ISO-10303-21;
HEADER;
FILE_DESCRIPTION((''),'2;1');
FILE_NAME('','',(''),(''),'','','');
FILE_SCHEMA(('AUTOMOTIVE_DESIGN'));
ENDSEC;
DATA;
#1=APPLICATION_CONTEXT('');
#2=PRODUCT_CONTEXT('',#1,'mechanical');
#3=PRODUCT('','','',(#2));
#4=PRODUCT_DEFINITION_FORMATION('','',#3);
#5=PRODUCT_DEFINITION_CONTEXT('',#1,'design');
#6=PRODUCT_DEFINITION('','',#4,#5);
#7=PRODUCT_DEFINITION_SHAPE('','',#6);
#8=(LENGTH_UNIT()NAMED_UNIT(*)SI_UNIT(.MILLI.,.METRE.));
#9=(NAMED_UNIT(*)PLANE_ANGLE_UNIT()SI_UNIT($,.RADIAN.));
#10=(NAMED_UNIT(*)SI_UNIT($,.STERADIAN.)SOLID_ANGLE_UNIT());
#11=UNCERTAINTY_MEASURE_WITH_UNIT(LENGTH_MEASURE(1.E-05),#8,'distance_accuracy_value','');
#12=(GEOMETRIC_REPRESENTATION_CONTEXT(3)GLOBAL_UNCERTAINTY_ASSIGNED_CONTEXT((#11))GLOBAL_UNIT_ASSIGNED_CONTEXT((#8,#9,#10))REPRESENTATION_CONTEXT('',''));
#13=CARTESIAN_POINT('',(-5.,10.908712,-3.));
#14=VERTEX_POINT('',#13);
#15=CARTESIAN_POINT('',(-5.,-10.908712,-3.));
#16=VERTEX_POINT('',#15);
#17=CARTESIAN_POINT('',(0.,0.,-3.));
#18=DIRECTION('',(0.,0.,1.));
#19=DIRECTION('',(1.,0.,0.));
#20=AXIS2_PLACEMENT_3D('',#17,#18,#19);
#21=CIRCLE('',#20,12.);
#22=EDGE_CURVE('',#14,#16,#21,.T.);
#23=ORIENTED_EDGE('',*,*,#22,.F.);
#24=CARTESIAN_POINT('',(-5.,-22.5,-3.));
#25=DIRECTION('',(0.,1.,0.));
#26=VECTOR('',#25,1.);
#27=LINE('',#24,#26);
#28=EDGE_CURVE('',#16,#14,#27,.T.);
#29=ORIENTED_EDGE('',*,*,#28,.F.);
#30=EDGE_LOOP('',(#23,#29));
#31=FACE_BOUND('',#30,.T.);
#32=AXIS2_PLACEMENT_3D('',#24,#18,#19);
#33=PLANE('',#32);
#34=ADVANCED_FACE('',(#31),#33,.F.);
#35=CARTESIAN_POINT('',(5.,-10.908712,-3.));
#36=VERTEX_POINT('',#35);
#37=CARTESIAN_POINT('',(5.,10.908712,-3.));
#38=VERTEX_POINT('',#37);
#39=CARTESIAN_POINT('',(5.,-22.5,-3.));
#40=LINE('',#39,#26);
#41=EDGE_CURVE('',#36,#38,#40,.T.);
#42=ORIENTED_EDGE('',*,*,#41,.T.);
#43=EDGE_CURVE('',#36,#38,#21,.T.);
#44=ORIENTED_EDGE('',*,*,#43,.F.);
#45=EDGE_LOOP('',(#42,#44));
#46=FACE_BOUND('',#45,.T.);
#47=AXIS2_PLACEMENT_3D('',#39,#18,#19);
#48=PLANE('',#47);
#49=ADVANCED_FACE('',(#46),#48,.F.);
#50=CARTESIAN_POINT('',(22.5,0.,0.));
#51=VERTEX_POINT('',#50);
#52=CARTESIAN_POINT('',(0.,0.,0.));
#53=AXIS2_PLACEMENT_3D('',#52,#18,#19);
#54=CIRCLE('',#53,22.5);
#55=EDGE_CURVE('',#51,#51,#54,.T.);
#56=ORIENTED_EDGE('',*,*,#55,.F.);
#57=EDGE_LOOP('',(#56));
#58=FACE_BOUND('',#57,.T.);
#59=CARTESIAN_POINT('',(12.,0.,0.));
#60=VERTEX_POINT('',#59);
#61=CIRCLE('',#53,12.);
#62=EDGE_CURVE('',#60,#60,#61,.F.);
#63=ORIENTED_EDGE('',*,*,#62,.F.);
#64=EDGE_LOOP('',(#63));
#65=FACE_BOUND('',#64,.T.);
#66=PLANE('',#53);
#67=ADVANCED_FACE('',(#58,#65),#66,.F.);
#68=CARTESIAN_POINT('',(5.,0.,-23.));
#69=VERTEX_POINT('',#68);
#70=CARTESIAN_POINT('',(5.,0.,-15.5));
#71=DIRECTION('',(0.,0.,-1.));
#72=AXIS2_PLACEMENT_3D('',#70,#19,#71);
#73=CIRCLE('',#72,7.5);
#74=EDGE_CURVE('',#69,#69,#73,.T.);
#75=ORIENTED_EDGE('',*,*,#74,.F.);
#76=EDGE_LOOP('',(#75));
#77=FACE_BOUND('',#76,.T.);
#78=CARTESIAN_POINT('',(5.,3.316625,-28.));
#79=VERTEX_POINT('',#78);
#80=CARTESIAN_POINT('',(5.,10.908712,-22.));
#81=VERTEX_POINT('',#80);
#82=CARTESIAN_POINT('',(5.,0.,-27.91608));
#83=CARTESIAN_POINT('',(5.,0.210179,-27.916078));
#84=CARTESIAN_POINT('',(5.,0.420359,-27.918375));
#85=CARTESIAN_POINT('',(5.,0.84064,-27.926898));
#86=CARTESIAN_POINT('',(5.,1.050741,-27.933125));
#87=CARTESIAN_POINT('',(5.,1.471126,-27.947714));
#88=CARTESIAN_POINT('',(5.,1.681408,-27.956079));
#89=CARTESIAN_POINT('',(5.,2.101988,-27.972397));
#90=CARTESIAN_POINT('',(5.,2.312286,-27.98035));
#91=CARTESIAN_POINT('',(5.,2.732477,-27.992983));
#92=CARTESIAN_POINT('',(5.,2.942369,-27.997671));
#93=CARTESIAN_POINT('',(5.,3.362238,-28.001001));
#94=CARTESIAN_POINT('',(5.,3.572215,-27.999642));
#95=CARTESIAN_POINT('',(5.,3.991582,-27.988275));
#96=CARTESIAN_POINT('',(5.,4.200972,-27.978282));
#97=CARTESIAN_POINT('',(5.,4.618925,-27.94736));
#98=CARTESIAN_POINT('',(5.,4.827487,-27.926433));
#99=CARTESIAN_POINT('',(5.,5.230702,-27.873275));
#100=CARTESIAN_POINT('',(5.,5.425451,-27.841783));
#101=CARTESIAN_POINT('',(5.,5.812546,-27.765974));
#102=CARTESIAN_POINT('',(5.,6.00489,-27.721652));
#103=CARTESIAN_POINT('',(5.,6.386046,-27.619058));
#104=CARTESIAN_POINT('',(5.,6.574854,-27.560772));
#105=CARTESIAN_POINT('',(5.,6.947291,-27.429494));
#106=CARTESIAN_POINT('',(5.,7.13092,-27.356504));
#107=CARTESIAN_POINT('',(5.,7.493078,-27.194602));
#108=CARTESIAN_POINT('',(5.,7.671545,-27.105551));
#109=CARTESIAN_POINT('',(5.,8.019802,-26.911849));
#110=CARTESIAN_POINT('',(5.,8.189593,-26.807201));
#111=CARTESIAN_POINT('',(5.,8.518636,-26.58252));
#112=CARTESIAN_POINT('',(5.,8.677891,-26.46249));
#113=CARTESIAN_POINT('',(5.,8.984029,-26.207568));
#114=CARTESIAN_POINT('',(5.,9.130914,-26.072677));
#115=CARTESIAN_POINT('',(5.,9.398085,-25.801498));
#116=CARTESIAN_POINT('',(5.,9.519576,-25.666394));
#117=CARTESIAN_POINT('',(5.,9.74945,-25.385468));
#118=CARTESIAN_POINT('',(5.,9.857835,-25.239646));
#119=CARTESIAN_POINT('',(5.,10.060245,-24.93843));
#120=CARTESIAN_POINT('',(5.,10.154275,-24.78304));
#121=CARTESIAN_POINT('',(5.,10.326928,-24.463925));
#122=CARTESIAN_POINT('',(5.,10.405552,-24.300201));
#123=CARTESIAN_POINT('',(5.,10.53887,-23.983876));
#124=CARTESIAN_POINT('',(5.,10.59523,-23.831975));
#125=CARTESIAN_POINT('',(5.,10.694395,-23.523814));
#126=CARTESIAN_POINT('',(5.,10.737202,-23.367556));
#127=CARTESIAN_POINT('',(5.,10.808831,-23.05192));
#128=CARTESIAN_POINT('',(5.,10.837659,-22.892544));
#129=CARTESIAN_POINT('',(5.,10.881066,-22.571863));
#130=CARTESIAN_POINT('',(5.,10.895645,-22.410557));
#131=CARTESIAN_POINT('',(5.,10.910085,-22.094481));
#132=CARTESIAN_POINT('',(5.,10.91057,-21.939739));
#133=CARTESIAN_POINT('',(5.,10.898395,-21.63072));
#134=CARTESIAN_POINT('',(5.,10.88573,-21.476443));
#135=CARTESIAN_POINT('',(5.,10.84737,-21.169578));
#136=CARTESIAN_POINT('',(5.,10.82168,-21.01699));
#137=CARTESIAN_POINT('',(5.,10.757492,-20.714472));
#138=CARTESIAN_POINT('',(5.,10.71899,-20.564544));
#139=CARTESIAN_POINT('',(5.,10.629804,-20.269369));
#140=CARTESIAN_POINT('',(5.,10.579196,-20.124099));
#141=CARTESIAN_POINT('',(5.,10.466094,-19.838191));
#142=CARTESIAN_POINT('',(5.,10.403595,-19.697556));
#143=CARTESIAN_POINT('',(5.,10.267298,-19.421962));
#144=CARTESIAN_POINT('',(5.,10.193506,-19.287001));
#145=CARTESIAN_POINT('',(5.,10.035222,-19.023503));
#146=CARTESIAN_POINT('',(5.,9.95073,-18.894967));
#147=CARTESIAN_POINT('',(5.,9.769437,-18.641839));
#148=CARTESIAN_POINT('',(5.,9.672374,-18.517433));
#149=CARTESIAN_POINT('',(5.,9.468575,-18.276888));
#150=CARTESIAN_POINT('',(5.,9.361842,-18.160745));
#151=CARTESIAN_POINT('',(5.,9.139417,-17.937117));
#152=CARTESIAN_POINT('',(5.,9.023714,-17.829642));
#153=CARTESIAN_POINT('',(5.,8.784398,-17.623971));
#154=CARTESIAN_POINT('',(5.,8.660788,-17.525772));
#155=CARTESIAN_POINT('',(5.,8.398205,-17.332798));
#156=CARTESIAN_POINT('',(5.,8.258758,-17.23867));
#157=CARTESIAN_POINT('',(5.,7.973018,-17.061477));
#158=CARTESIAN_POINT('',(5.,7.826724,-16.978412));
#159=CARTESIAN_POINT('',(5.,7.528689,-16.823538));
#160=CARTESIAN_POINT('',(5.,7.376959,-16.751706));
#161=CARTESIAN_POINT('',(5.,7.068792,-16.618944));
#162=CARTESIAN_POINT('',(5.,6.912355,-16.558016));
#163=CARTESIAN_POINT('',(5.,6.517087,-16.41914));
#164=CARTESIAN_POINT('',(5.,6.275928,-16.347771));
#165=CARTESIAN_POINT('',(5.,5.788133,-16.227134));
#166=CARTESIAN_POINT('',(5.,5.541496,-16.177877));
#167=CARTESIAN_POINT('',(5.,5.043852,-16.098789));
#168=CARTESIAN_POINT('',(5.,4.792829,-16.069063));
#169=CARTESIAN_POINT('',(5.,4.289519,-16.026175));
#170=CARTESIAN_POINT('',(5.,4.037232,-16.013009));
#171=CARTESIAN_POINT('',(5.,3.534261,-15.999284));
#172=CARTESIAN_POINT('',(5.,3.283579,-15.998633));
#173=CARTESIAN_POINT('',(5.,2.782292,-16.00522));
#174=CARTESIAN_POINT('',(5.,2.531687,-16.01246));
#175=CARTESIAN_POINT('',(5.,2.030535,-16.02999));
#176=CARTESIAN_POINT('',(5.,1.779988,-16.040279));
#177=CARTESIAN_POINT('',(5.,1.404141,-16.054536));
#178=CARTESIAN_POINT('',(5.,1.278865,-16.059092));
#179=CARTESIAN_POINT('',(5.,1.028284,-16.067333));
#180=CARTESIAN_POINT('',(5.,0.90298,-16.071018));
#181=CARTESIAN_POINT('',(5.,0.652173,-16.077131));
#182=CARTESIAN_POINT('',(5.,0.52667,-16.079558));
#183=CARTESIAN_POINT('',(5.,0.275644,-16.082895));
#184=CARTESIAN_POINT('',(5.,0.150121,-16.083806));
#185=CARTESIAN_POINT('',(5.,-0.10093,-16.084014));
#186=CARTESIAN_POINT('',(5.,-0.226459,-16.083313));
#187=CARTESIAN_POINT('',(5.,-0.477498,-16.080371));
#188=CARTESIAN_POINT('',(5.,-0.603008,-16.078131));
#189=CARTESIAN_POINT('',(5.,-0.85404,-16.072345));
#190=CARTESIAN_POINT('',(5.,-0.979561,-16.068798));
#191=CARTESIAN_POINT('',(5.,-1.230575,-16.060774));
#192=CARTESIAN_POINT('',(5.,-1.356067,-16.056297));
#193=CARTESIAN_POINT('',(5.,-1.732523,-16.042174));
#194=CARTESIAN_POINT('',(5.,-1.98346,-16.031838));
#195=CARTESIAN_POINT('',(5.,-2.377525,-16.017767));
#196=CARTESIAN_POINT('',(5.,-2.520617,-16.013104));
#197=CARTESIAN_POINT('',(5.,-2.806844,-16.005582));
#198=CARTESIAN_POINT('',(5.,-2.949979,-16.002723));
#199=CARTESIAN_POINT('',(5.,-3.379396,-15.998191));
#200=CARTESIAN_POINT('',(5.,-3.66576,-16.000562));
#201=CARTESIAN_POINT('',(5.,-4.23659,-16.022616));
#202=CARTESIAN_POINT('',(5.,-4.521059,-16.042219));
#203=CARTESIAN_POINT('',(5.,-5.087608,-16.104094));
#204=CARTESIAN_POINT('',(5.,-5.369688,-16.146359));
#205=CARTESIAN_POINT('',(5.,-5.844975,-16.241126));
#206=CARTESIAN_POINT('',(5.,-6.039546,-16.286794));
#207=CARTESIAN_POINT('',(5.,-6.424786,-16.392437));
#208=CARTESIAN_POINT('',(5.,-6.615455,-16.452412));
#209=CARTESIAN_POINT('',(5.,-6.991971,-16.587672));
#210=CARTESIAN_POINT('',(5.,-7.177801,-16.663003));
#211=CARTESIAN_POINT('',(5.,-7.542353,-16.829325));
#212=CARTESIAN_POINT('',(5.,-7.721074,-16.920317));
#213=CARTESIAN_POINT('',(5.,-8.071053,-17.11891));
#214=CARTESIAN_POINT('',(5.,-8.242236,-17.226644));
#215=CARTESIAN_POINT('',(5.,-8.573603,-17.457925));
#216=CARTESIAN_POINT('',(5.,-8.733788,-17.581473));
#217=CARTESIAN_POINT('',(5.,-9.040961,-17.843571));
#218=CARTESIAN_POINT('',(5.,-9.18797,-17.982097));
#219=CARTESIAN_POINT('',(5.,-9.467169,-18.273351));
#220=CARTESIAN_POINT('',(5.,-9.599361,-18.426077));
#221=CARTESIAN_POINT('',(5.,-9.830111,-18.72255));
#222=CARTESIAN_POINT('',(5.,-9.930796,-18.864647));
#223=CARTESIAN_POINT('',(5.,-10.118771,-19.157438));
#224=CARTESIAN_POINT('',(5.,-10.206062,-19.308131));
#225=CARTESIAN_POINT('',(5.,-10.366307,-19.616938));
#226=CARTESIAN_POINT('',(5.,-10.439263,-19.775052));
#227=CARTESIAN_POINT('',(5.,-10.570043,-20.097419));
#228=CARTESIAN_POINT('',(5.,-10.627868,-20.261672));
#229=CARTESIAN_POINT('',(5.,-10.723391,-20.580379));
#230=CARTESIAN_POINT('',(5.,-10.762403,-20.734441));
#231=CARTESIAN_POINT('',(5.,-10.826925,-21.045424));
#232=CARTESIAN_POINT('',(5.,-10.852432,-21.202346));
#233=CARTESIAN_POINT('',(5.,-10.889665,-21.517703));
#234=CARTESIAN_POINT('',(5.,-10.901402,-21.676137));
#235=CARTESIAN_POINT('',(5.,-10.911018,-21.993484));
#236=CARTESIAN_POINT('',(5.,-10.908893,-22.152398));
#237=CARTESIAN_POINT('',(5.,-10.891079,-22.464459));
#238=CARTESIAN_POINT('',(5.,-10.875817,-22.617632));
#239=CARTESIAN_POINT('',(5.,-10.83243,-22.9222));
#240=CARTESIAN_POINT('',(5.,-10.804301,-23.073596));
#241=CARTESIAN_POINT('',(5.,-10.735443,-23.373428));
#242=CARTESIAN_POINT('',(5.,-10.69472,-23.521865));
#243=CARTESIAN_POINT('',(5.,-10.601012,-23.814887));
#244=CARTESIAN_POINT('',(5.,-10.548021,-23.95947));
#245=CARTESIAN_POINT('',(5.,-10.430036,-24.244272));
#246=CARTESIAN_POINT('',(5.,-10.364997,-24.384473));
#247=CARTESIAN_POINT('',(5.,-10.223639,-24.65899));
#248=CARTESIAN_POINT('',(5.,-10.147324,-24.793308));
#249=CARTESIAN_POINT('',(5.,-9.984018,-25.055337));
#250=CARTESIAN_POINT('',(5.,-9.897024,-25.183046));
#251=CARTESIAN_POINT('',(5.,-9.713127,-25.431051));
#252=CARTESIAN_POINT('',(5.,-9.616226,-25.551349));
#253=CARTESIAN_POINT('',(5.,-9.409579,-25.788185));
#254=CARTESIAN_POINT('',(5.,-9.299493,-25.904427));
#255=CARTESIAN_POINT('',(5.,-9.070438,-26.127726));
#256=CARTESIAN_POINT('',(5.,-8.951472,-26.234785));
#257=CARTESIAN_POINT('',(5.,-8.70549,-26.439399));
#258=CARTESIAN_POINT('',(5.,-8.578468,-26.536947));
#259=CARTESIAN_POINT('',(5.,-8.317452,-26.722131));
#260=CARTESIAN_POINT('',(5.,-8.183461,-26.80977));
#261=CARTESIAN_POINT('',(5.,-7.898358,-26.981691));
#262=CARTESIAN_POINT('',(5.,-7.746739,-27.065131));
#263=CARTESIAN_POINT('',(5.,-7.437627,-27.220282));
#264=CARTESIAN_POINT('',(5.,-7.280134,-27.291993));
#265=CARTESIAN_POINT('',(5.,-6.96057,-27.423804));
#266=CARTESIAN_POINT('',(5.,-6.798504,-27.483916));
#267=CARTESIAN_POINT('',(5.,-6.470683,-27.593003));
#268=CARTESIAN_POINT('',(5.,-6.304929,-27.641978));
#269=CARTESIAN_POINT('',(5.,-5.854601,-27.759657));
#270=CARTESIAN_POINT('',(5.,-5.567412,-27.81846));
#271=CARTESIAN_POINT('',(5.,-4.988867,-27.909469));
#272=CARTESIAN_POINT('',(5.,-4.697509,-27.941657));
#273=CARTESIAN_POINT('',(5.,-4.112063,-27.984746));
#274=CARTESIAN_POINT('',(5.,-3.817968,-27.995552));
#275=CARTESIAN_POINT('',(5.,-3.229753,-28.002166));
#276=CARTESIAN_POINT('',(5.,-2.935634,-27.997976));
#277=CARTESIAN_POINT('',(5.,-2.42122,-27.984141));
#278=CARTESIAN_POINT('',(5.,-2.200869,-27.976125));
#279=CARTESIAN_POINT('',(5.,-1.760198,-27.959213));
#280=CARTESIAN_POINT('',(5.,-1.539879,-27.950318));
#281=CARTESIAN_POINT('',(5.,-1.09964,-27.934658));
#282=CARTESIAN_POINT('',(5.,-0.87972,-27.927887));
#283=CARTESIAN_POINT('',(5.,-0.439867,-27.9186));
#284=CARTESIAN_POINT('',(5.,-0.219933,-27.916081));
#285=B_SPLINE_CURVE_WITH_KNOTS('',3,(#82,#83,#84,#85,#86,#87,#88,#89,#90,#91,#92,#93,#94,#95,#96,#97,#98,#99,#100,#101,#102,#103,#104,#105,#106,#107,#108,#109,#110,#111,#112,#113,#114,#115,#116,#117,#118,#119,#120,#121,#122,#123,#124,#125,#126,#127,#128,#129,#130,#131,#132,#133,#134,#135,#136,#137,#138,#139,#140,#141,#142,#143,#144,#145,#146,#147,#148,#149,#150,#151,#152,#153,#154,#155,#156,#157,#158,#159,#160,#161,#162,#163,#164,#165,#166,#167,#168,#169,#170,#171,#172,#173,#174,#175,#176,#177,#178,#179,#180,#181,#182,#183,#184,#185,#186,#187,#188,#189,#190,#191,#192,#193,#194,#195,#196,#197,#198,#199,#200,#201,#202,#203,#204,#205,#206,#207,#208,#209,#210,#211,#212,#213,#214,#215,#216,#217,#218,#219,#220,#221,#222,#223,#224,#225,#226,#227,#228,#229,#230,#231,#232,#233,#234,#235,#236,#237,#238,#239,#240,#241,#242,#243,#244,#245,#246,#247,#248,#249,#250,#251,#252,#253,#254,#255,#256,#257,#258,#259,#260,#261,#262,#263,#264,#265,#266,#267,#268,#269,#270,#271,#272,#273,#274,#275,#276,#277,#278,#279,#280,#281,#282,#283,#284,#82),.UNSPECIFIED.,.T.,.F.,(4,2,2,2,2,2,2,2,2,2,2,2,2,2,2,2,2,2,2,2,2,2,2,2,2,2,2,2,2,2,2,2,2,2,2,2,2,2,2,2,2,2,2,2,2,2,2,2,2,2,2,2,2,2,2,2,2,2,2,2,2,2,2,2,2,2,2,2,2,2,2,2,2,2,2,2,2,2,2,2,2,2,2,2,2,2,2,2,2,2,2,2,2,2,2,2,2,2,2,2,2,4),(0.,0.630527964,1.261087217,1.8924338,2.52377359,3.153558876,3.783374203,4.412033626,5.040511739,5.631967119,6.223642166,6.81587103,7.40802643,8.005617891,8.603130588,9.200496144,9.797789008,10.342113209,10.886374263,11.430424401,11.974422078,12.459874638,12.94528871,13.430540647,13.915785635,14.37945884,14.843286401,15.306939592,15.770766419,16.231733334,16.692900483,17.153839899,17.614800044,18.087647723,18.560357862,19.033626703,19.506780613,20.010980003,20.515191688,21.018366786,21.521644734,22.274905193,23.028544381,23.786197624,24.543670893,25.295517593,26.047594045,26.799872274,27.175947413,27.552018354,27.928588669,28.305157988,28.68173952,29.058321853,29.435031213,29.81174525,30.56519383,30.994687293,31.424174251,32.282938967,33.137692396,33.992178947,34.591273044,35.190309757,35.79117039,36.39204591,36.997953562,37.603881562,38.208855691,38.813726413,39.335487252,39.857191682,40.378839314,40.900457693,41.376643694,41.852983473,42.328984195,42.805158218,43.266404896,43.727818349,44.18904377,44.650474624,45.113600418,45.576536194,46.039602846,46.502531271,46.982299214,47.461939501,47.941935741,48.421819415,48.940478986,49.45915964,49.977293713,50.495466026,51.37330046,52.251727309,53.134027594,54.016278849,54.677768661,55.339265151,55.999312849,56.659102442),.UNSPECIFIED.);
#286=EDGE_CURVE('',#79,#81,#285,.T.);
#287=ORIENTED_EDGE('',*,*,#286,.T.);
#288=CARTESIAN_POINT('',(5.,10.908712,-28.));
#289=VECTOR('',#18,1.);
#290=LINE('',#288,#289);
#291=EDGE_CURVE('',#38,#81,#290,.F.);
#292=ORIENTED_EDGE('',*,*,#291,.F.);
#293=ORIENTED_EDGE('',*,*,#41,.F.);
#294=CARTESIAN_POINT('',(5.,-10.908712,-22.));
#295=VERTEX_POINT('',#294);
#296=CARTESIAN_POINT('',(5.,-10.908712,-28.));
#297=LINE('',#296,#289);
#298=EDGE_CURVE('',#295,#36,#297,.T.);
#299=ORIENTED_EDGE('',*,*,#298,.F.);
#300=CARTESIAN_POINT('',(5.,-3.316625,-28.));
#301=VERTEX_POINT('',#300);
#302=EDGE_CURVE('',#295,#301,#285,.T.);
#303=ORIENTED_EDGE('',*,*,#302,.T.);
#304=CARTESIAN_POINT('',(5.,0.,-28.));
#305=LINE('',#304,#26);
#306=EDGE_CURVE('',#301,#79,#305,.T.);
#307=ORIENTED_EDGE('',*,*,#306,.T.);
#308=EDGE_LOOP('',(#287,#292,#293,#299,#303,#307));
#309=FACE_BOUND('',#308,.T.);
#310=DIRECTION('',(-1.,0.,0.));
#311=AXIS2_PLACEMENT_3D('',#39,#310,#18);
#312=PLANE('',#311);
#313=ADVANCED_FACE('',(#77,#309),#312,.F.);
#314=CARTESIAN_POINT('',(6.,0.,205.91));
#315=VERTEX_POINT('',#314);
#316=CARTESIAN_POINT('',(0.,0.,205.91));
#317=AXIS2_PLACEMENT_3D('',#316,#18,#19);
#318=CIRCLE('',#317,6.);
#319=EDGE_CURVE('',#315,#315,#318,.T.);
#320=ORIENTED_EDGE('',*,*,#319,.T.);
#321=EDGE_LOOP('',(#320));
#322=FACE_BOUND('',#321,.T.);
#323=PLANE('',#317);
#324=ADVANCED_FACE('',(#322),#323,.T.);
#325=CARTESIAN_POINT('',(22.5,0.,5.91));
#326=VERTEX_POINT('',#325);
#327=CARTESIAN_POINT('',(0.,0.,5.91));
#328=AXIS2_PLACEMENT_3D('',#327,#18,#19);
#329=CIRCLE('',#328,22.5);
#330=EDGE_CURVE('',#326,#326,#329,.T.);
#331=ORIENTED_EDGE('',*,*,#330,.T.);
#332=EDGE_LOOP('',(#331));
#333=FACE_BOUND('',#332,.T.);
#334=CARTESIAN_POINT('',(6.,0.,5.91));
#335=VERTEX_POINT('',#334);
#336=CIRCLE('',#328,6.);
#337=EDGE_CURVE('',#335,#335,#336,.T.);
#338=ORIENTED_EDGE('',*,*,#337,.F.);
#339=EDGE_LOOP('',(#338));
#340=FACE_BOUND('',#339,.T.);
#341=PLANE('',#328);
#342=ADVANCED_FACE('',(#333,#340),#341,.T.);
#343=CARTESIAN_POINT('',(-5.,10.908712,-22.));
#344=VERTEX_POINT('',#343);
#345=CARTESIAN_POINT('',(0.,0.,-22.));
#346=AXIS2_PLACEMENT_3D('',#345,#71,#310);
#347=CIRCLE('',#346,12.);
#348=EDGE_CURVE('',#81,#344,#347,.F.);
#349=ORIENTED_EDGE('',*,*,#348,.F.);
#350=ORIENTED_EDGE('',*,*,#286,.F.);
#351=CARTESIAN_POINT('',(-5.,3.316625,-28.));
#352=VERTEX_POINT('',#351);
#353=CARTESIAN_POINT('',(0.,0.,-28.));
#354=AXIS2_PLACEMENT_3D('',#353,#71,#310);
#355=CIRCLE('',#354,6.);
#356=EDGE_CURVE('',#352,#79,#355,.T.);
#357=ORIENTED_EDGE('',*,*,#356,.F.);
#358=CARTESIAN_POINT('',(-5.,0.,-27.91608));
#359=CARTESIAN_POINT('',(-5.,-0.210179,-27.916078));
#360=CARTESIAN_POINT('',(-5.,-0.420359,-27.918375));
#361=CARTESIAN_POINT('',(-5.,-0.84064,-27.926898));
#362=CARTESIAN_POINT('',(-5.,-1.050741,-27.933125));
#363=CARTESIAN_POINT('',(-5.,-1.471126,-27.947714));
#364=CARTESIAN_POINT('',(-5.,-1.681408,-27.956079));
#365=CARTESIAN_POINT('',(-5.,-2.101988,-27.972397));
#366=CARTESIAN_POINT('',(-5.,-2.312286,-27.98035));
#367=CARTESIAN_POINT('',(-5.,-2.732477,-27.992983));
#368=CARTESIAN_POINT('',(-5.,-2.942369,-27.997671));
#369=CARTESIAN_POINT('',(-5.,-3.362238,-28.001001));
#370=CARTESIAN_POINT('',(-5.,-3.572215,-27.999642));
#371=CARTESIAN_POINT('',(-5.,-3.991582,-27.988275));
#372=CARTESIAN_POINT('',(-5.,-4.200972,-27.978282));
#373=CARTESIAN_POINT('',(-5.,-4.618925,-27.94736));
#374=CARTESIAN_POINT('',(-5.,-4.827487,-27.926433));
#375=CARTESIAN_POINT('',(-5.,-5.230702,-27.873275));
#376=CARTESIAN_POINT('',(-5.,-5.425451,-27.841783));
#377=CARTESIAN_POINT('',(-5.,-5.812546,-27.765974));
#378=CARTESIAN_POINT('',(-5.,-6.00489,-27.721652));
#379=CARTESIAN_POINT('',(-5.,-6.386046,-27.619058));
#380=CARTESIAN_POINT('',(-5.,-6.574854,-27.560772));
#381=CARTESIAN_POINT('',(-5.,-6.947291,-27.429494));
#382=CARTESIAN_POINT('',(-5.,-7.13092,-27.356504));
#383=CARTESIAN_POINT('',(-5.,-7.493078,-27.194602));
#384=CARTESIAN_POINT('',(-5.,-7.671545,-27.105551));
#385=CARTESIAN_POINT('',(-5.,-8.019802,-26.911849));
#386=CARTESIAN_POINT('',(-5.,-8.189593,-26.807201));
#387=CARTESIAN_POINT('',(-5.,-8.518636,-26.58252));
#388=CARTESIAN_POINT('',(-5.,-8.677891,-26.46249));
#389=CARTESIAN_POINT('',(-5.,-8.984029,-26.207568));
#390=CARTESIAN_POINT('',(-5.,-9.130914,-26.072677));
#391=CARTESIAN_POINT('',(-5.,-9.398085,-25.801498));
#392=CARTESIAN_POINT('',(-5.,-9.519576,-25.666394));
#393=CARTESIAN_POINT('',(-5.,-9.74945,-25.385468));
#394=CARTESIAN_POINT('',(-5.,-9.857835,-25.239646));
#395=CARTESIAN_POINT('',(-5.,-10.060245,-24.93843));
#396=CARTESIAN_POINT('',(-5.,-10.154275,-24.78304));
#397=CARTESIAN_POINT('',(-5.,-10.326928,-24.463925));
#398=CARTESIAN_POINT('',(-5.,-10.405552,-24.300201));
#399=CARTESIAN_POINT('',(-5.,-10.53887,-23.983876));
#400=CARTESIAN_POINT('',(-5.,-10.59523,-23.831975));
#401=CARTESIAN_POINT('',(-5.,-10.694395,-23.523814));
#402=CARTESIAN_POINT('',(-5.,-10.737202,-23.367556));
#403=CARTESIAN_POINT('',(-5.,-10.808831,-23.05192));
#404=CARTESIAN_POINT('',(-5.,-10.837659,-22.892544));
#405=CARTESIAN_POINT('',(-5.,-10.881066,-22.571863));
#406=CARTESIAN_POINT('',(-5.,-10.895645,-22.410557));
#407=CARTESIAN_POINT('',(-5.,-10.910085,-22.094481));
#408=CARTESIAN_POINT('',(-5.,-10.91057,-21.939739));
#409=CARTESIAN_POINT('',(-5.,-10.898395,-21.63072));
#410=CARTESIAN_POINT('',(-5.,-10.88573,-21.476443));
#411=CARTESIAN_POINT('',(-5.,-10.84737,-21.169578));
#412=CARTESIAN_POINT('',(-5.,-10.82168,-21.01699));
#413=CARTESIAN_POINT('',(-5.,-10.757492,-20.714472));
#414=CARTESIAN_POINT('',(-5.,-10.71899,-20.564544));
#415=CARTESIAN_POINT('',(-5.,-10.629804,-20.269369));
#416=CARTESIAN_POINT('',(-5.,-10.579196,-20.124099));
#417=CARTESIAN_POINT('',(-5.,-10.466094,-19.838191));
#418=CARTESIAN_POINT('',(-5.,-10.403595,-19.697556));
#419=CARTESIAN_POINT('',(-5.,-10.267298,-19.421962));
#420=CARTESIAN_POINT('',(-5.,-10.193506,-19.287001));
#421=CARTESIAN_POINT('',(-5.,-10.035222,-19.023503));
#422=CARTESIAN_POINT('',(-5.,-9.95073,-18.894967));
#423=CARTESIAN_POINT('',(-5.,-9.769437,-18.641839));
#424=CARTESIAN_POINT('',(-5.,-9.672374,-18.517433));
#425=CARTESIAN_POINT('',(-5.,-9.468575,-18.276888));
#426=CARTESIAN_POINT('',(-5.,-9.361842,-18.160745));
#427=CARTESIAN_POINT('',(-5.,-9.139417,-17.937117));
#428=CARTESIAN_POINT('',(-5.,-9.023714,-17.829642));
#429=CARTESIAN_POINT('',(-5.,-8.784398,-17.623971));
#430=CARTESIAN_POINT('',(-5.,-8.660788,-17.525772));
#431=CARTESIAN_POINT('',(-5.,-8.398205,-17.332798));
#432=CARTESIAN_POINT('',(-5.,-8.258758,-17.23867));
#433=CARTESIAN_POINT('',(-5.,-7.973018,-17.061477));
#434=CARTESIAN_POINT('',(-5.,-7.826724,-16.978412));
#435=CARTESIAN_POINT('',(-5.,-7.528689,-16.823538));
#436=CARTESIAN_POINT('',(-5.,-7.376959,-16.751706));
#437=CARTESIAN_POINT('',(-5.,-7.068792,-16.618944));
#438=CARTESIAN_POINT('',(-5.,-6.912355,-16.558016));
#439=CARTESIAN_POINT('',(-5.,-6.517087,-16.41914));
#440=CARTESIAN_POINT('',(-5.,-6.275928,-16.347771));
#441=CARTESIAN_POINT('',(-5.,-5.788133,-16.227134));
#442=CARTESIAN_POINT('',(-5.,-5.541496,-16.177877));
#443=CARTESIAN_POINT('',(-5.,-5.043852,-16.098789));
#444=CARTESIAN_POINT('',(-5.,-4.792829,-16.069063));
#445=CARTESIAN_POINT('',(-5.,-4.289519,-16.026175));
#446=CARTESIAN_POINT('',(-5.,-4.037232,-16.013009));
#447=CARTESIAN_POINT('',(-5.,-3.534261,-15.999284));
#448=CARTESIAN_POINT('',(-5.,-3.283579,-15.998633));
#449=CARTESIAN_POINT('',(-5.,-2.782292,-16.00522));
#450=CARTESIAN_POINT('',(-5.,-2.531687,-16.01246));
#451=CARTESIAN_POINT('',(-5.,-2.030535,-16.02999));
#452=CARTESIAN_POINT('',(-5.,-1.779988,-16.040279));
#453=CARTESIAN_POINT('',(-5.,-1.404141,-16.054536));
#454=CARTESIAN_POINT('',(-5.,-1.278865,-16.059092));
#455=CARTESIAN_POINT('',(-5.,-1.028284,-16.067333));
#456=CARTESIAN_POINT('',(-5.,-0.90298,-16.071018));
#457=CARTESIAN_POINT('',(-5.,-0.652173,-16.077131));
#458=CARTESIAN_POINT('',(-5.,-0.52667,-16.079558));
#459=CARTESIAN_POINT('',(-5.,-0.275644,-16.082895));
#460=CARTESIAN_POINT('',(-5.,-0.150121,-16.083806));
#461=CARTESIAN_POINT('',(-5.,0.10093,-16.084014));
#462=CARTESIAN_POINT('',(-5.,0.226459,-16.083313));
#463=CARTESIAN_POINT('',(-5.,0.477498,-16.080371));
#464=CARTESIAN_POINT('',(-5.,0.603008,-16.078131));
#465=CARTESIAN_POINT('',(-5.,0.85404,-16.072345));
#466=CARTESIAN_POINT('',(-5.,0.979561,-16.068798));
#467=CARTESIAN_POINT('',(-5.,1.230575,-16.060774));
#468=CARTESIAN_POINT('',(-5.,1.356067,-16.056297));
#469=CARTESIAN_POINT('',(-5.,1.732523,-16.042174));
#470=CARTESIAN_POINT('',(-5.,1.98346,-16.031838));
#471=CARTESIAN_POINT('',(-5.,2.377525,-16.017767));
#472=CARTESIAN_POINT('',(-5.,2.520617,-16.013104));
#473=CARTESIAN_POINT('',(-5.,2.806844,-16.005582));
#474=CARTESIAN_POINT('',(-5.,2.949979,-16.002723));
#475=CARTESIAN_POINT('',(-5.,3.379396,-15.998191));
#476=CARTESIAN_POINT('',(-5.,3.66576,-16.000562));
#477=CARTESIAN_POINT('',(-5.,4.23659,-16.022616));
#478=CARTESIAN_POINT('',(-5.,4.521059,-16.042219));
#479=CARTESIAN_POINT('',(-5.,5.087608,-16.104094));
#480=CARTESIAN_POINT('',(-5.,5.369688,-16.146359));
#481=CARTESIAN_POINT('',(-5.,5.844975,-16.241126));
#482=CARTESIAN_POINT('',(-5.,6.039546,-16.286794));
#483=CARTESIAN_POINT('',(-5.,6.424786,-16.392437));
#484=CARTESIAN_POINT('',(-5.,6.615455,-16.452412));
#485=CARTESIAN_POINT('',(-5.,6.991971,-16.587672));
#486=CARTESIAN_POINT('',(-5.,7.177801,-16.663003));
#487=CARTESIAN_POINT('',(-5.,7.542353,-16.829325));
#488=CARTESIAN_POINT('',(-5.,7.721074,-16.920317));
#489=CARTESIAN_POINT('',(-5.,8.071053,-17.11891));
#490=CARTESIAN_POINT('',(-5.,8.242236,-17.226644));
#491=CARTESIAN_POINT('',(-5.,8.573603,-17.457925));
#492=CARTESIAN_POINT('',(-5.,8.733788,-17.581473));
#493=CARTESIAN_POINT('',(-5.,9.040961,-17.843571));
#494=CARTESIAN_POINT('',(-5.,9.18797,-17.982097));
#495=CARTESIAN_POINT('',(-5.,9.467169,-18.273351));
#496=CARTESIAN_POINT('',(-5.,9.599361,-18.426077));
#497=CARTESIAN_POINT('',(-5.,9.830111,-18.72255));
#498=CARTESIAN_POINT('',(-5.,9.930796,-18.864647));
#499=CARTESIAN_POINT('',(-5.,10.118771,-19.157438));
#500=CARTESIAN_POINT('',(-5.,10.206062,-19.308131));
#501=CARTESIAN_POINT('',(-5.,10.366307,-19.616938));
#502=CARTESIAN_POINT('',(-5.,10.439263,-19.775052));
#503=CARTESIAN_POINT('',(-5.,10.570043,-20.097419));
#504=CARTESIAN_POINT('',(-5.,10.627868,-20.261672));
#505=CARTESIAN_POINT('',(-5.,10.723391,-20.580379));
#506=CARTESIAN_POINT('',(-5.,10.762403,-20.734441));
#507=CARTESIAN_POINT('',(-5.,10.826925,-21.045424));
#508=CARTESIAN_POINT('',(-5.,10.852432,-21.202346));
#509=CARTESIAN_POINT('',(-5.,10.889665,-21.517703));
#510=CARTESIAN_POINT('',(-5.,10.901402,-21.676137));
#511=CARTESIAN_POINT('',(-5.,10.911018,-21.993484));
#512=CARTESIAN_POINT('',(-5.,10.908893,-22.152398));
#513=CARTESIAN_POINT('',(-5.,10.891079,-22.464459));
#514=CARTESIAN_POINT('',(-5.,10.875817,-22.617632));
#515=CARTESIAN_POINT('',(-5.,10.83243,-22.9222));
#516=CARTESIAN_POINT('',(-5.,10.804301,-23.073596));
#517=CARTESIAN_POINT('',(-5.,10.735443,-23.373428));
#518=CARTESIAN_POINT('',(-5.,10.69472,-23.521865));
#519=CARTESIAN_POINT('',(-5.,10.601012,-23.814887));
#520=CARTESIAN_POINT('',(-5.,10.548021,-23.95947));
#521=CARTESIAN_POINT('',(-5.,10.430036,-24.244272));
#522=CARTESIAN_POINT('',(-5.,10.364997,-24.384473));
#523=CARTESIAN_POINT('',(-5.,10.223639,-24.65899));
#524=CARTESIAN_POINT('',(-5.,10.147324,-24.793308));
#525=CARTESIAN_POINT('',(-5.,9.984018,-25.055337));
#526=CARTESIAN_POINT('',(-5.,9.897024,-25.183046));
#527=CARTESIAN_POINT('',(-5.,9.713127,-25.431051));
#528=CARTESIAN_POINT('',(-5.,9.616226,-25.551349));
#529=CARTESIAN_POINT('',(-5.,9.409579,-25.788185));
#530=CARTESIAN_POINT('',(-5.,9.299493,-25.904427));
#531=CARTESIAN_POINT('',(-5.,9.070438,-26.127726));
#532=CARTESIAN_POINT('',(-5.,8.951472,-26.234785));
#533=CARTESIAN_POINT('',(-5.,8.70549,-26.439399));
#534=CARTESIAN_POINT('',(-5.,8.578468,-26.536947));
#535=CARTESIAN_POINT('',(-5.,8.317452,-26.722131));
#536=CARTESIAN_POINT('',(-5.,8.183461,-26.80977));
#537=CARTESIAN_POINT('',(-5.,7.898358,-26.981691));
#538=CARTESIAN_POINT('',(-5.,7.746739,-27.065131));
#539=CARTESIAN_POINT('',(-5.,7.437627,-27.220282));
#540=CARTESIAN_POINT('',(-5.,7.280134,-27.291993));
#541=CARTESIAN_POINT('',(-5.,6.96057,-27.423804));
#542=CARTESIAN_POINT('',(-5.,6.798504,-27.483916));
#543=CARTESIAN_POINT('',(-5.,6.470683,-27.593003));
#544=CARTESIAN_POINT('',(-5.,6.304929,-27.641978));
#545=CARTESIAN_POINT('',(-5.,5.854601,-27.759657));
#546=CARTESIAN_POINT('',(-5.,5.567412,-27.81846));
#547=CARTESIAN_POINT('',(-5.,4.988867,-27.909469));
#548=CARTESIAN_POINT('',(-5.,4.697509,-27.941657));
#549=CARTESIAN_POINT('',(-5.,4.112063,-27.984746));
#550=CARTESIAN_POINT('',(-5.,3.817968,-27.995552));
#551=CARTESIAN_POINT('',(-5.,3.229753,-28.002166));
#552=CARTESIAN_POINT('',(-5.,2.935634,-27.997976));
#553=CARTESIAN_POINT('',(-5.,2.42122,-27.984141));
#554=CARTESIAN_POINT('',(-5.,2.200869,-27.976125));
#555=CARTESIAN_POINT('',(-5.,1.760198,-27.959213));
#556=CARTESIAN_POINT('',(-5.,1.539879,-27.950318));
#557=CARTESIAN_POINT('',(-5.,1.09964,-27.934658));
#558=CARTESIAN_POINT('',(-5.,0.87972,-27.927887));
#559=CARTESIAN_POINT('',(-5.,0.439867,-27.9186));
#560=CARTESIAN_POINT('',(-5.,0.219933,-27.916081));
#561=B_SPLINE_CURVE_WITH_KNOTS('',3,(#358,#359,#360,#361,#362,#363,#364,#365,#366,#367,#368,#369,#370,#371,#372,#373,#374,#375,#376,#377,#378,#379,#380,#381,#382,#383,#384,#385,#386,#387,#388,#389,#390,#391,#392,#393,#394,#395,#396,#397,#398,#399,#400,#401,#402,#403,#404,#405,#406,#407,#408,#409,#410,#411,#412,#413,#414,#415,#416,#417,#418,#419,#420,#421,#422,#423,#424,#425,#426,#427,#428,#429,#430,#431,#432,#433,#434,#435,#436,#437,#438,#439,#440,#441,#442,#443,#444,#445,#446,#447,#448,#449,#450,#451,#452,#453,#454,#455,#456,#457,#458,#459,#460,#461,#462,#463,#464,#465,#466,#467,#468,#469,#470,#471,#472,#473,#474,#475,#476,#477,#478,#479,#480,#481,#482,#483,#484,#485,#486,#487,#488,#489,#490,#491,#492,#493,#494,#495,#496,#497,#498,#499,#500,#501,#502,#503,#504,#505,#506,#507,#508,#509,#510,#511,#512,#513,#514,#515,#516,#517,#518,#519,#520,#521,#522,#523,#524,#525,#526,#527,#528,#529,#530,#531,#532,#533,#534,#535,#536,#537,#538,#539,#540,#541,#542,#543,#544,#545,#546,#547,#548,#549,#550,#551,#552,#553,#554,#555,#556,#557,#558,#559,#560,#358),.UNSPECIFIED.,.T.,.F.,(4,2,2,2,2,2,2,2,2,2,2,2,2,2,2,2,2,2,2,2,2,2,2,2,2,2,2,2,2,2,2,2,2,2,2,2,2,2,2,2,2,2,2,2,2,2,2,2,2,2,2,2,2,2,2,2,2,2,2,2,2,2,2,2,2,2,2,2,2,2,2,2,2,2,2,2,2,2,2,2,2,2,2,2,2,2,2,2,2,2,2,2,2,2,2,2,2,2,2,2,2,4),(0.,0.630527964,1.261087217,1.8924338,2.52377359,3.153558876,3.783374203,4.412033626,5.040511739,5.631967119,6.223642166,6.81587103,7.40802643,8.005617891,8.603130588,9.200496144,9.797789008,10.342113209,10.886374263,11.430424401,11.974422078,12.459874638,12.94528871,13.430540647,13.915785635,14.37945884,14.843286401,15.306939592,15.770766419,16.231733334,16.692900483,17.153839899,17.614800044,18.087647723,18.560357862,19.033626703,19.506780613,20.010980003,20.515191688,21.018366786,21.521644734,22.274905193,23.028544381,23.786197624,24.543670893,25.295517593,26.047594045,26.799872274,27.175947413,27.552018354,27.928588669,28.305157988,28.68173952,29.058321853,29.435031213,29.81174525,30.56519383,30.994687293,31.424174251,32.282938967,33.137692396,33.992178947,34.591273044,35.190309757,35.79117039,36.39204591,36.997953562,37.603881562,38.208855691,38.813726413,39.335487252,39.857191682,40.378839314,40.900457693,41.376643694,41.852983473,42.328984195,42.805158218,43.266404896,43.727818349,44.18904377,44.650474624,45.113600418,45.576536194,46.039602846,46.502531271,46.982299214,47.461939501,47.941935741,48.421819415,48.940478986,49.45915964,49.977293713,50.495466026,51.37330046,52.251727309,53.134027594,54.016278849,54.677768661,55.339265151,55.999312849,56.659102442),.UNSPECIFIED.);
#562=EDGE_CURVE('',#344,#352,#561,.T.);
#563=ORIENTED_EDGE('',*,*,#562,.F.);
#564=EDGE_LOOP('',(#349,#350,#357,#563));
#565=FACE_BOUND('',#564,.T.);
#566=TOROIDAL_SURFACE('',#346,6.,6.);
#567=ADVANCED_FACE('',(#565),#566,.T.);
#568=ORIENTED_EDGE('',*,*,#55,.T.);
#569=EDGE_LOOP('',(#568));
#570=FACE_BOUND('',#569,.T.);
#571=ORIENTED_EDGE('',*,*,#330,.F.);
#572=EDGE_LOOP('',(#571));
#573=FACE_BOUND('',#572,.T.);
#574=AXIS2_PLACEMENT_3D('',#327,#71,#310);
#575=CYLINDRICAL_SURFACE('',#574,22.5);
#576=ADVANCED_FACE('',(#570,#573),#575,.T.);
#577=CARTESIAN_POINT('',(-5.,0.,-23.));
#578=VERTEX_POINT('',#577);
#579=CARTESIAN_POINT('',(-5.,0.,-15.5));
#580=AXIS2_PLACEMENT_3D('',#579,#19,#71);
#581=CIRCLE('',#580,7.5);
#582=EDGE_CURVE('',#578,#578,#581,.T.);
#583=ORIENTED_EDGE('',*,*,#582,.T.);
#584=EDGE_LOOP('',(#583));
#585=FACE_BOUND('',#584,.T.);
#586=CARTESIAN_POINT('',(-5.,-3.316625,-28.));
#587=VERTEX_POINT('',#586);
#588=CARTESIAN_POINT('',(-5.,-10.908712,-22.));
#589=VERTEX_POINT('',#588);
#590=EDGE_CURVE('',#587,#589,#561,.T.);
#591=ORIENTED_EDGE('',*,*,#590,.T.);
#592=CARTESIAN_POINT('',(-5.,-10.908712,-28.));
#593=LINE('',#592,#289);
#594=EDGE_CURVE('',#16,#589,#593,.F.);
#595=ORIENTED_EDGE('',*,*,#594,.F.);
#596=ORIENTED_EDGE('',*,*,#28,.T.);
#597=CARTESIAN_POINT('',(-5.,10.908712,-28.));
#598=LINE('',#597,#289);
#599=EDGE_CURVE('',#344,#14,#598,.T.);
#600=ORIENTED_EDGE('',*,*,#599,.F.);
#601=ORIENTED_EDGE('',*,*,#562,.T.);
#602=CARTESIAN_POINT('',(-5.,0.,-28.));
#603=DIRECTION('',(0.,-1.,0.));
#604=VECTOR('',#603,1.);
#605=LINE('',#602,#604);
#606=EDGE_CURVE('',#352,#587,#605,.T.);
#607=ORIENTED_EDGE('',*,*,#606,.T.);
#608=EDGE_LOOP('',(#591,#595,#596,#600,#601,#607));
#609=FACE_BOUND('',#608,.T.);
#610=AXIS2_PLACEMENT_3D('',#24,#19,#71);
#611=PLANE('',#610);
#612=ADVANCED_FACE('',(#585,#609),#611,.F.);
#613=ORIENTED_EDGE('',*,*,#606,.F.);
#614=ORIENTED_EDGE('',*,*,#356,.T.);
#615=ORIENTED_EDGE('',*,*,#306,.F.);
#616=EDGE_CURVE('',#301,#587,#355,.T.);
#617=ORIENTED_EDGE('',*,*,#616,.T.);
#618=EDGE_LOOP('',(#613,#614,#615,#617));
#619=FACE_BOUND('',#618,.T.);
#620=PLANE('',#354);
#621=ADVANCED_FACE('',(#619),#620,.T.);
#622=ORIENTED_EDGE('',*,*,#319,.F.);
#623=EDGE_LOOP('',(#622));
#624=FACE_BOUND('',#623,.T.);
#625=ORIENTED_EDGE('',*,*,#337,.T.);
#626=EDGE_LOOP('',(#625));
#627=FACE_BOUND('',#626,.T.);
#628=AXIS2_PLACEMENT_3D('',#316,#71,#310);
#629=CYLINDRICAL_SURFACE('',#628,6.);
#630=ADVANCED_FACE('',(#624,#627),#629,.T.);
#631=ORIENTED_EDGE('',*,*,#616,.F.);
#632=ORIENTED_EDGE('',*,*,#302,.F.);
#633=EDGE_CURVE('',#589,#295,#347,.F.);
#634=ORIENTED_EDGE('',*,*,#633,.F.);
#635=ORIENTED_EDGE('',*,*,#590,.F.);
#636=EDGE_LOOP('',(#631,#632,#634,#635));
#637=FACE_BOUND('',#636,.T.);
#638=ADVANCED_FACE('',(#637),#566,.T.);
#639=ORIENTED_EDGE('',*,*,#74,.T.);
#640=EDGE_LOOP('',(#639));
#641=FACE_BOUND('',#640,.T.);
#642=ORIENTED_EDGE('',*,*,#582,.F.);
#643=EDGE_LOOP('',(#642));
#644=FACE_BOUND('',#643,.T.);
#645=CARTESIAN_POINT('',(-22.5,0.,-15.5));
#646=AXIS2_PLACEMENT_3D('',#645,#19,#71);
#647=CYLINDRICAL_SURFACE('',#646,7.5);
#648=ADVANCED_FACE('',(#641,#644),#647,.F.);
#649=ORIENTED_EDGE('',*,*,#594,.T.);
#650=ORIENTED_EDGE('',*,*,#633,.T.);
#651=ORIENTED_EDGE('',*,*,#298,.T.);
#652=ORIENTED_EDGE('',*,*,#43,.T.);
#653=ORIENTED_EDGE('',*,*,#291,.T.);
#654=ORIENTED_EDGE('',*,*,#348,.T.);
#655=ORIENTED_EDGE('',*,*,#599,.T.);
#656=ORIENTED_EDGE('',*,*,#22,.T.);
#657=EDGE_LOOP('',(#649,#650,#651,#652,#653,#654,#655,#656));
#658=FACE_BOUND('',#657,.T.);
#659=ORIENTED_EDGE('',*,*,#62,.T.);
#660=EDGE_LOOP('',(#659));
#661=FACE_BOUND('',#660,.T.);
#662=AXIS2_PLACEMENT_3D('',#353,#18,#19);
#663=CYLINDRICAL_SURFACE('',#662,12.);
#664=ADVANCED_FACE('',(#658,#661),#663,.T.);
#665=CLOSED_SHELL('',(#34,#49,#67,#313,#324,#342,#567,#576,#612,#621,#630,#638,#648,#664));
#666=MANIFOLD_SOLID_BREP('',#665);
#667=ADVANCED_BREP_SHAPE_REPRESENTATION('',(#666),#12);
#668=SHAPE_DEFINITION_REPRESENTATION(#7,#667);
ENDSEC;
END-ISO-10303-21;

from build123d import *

# Parameters (mm, degrees)
SKETCH1_R               = 22.5
BOSS_EXTRUDE1_DEPTH     = 5.91
SKETCH2_R               = 6
BOSS_EXTRUDE2_DEPTH     = 200
SKETCH3_R               = 12
BOSS_EXTRUDE3_DEPTH     = 28
FILLET1_R               = 6
CUT_EXTRUDE1_DEPTH      = 209.354093072
CUT_EXTRUDE1_DEPTH_BACK = 209.354093072
SKETCH4_W               = 21.071752118
SKETCH4_H               = 26
SKETCH5_R               = 7.5
CUT_EXTRUDE2_DEPTH      = 209.953172027


with BuildPart() as part:
    # Sketch1 → Boss-Extrude1 (new body)
    with BuildSketch(Plane.XY):
        Circle(SKETCH1_R)
    extrude(amount=BOSS_EXTRUDE1_DEPTH)

    # Sketch2 → Boss-Extrude2 (add)
    with BuildSketch(Plane.XY.offset(5.91)):
        Circle(SKETCH2_R)
    extrude(amount=BOSS_EXTRUDE2_DEPTH)

    # Sketch3 → Boss-Extrude3 (add)
    with BuildSketch(Plane(origin=(0, 0, 0), x_dir=(-1, 0, 0), z_dir=(0, 0, -1))):
        with Locations(Location((0, 0, 0), (0, 0, 180))):
            Circle(SKETCH3_R)
    extrude(amount=BOSS_EXTRUDE3_DEPTH)

    # Fillet1
    fillet1_edges = [part.edges().sort_by_distance(p)[0] for p in [
        (-12, 0, -28),
    ]]
    fillet(fillet1_edges, radius=FILLET1_R)

    # Sketch4 → Cut-Extrude1 (cut, two sides: drawn at the far end of the back side and taken through both)
    with BuildSketch(Plane(origin=(0, 0, 0), x_dir=(1, 0, 0), z_dir=(0, 1, 0)).offset(-CUT_EXTRUDE1_DEPTH_BACK)):
        with Locations((-15.535876059, 16)):
            Rectangle(SKETCH4_W, SKETCH4_H)
        with Locations((15.535876059, 16)):
            Rectangle(SKETCH4_W, SKETCH4_H)
    extrude(amount=CUT_EXTRUDE1_DEPTH + CUT_EXTRUDE1_DEPTH_BACK, mode=Mode.SUBTRACT)

    # Sketch5 → Cut-Extrude2 (cut, through all)
    with BuildSketch(Plane(origin=(5, 0, 0), x_dir=(0, 0, -1), z_dir=(1, 0, 0))):
        with Locations((15.5, 0)):
            Circle(SKETCH5_R)
    extrude(amount=-CUT_EXTRUDE2_DEPTH, mode=Mode.SUBTRACT)


solid = part.part
